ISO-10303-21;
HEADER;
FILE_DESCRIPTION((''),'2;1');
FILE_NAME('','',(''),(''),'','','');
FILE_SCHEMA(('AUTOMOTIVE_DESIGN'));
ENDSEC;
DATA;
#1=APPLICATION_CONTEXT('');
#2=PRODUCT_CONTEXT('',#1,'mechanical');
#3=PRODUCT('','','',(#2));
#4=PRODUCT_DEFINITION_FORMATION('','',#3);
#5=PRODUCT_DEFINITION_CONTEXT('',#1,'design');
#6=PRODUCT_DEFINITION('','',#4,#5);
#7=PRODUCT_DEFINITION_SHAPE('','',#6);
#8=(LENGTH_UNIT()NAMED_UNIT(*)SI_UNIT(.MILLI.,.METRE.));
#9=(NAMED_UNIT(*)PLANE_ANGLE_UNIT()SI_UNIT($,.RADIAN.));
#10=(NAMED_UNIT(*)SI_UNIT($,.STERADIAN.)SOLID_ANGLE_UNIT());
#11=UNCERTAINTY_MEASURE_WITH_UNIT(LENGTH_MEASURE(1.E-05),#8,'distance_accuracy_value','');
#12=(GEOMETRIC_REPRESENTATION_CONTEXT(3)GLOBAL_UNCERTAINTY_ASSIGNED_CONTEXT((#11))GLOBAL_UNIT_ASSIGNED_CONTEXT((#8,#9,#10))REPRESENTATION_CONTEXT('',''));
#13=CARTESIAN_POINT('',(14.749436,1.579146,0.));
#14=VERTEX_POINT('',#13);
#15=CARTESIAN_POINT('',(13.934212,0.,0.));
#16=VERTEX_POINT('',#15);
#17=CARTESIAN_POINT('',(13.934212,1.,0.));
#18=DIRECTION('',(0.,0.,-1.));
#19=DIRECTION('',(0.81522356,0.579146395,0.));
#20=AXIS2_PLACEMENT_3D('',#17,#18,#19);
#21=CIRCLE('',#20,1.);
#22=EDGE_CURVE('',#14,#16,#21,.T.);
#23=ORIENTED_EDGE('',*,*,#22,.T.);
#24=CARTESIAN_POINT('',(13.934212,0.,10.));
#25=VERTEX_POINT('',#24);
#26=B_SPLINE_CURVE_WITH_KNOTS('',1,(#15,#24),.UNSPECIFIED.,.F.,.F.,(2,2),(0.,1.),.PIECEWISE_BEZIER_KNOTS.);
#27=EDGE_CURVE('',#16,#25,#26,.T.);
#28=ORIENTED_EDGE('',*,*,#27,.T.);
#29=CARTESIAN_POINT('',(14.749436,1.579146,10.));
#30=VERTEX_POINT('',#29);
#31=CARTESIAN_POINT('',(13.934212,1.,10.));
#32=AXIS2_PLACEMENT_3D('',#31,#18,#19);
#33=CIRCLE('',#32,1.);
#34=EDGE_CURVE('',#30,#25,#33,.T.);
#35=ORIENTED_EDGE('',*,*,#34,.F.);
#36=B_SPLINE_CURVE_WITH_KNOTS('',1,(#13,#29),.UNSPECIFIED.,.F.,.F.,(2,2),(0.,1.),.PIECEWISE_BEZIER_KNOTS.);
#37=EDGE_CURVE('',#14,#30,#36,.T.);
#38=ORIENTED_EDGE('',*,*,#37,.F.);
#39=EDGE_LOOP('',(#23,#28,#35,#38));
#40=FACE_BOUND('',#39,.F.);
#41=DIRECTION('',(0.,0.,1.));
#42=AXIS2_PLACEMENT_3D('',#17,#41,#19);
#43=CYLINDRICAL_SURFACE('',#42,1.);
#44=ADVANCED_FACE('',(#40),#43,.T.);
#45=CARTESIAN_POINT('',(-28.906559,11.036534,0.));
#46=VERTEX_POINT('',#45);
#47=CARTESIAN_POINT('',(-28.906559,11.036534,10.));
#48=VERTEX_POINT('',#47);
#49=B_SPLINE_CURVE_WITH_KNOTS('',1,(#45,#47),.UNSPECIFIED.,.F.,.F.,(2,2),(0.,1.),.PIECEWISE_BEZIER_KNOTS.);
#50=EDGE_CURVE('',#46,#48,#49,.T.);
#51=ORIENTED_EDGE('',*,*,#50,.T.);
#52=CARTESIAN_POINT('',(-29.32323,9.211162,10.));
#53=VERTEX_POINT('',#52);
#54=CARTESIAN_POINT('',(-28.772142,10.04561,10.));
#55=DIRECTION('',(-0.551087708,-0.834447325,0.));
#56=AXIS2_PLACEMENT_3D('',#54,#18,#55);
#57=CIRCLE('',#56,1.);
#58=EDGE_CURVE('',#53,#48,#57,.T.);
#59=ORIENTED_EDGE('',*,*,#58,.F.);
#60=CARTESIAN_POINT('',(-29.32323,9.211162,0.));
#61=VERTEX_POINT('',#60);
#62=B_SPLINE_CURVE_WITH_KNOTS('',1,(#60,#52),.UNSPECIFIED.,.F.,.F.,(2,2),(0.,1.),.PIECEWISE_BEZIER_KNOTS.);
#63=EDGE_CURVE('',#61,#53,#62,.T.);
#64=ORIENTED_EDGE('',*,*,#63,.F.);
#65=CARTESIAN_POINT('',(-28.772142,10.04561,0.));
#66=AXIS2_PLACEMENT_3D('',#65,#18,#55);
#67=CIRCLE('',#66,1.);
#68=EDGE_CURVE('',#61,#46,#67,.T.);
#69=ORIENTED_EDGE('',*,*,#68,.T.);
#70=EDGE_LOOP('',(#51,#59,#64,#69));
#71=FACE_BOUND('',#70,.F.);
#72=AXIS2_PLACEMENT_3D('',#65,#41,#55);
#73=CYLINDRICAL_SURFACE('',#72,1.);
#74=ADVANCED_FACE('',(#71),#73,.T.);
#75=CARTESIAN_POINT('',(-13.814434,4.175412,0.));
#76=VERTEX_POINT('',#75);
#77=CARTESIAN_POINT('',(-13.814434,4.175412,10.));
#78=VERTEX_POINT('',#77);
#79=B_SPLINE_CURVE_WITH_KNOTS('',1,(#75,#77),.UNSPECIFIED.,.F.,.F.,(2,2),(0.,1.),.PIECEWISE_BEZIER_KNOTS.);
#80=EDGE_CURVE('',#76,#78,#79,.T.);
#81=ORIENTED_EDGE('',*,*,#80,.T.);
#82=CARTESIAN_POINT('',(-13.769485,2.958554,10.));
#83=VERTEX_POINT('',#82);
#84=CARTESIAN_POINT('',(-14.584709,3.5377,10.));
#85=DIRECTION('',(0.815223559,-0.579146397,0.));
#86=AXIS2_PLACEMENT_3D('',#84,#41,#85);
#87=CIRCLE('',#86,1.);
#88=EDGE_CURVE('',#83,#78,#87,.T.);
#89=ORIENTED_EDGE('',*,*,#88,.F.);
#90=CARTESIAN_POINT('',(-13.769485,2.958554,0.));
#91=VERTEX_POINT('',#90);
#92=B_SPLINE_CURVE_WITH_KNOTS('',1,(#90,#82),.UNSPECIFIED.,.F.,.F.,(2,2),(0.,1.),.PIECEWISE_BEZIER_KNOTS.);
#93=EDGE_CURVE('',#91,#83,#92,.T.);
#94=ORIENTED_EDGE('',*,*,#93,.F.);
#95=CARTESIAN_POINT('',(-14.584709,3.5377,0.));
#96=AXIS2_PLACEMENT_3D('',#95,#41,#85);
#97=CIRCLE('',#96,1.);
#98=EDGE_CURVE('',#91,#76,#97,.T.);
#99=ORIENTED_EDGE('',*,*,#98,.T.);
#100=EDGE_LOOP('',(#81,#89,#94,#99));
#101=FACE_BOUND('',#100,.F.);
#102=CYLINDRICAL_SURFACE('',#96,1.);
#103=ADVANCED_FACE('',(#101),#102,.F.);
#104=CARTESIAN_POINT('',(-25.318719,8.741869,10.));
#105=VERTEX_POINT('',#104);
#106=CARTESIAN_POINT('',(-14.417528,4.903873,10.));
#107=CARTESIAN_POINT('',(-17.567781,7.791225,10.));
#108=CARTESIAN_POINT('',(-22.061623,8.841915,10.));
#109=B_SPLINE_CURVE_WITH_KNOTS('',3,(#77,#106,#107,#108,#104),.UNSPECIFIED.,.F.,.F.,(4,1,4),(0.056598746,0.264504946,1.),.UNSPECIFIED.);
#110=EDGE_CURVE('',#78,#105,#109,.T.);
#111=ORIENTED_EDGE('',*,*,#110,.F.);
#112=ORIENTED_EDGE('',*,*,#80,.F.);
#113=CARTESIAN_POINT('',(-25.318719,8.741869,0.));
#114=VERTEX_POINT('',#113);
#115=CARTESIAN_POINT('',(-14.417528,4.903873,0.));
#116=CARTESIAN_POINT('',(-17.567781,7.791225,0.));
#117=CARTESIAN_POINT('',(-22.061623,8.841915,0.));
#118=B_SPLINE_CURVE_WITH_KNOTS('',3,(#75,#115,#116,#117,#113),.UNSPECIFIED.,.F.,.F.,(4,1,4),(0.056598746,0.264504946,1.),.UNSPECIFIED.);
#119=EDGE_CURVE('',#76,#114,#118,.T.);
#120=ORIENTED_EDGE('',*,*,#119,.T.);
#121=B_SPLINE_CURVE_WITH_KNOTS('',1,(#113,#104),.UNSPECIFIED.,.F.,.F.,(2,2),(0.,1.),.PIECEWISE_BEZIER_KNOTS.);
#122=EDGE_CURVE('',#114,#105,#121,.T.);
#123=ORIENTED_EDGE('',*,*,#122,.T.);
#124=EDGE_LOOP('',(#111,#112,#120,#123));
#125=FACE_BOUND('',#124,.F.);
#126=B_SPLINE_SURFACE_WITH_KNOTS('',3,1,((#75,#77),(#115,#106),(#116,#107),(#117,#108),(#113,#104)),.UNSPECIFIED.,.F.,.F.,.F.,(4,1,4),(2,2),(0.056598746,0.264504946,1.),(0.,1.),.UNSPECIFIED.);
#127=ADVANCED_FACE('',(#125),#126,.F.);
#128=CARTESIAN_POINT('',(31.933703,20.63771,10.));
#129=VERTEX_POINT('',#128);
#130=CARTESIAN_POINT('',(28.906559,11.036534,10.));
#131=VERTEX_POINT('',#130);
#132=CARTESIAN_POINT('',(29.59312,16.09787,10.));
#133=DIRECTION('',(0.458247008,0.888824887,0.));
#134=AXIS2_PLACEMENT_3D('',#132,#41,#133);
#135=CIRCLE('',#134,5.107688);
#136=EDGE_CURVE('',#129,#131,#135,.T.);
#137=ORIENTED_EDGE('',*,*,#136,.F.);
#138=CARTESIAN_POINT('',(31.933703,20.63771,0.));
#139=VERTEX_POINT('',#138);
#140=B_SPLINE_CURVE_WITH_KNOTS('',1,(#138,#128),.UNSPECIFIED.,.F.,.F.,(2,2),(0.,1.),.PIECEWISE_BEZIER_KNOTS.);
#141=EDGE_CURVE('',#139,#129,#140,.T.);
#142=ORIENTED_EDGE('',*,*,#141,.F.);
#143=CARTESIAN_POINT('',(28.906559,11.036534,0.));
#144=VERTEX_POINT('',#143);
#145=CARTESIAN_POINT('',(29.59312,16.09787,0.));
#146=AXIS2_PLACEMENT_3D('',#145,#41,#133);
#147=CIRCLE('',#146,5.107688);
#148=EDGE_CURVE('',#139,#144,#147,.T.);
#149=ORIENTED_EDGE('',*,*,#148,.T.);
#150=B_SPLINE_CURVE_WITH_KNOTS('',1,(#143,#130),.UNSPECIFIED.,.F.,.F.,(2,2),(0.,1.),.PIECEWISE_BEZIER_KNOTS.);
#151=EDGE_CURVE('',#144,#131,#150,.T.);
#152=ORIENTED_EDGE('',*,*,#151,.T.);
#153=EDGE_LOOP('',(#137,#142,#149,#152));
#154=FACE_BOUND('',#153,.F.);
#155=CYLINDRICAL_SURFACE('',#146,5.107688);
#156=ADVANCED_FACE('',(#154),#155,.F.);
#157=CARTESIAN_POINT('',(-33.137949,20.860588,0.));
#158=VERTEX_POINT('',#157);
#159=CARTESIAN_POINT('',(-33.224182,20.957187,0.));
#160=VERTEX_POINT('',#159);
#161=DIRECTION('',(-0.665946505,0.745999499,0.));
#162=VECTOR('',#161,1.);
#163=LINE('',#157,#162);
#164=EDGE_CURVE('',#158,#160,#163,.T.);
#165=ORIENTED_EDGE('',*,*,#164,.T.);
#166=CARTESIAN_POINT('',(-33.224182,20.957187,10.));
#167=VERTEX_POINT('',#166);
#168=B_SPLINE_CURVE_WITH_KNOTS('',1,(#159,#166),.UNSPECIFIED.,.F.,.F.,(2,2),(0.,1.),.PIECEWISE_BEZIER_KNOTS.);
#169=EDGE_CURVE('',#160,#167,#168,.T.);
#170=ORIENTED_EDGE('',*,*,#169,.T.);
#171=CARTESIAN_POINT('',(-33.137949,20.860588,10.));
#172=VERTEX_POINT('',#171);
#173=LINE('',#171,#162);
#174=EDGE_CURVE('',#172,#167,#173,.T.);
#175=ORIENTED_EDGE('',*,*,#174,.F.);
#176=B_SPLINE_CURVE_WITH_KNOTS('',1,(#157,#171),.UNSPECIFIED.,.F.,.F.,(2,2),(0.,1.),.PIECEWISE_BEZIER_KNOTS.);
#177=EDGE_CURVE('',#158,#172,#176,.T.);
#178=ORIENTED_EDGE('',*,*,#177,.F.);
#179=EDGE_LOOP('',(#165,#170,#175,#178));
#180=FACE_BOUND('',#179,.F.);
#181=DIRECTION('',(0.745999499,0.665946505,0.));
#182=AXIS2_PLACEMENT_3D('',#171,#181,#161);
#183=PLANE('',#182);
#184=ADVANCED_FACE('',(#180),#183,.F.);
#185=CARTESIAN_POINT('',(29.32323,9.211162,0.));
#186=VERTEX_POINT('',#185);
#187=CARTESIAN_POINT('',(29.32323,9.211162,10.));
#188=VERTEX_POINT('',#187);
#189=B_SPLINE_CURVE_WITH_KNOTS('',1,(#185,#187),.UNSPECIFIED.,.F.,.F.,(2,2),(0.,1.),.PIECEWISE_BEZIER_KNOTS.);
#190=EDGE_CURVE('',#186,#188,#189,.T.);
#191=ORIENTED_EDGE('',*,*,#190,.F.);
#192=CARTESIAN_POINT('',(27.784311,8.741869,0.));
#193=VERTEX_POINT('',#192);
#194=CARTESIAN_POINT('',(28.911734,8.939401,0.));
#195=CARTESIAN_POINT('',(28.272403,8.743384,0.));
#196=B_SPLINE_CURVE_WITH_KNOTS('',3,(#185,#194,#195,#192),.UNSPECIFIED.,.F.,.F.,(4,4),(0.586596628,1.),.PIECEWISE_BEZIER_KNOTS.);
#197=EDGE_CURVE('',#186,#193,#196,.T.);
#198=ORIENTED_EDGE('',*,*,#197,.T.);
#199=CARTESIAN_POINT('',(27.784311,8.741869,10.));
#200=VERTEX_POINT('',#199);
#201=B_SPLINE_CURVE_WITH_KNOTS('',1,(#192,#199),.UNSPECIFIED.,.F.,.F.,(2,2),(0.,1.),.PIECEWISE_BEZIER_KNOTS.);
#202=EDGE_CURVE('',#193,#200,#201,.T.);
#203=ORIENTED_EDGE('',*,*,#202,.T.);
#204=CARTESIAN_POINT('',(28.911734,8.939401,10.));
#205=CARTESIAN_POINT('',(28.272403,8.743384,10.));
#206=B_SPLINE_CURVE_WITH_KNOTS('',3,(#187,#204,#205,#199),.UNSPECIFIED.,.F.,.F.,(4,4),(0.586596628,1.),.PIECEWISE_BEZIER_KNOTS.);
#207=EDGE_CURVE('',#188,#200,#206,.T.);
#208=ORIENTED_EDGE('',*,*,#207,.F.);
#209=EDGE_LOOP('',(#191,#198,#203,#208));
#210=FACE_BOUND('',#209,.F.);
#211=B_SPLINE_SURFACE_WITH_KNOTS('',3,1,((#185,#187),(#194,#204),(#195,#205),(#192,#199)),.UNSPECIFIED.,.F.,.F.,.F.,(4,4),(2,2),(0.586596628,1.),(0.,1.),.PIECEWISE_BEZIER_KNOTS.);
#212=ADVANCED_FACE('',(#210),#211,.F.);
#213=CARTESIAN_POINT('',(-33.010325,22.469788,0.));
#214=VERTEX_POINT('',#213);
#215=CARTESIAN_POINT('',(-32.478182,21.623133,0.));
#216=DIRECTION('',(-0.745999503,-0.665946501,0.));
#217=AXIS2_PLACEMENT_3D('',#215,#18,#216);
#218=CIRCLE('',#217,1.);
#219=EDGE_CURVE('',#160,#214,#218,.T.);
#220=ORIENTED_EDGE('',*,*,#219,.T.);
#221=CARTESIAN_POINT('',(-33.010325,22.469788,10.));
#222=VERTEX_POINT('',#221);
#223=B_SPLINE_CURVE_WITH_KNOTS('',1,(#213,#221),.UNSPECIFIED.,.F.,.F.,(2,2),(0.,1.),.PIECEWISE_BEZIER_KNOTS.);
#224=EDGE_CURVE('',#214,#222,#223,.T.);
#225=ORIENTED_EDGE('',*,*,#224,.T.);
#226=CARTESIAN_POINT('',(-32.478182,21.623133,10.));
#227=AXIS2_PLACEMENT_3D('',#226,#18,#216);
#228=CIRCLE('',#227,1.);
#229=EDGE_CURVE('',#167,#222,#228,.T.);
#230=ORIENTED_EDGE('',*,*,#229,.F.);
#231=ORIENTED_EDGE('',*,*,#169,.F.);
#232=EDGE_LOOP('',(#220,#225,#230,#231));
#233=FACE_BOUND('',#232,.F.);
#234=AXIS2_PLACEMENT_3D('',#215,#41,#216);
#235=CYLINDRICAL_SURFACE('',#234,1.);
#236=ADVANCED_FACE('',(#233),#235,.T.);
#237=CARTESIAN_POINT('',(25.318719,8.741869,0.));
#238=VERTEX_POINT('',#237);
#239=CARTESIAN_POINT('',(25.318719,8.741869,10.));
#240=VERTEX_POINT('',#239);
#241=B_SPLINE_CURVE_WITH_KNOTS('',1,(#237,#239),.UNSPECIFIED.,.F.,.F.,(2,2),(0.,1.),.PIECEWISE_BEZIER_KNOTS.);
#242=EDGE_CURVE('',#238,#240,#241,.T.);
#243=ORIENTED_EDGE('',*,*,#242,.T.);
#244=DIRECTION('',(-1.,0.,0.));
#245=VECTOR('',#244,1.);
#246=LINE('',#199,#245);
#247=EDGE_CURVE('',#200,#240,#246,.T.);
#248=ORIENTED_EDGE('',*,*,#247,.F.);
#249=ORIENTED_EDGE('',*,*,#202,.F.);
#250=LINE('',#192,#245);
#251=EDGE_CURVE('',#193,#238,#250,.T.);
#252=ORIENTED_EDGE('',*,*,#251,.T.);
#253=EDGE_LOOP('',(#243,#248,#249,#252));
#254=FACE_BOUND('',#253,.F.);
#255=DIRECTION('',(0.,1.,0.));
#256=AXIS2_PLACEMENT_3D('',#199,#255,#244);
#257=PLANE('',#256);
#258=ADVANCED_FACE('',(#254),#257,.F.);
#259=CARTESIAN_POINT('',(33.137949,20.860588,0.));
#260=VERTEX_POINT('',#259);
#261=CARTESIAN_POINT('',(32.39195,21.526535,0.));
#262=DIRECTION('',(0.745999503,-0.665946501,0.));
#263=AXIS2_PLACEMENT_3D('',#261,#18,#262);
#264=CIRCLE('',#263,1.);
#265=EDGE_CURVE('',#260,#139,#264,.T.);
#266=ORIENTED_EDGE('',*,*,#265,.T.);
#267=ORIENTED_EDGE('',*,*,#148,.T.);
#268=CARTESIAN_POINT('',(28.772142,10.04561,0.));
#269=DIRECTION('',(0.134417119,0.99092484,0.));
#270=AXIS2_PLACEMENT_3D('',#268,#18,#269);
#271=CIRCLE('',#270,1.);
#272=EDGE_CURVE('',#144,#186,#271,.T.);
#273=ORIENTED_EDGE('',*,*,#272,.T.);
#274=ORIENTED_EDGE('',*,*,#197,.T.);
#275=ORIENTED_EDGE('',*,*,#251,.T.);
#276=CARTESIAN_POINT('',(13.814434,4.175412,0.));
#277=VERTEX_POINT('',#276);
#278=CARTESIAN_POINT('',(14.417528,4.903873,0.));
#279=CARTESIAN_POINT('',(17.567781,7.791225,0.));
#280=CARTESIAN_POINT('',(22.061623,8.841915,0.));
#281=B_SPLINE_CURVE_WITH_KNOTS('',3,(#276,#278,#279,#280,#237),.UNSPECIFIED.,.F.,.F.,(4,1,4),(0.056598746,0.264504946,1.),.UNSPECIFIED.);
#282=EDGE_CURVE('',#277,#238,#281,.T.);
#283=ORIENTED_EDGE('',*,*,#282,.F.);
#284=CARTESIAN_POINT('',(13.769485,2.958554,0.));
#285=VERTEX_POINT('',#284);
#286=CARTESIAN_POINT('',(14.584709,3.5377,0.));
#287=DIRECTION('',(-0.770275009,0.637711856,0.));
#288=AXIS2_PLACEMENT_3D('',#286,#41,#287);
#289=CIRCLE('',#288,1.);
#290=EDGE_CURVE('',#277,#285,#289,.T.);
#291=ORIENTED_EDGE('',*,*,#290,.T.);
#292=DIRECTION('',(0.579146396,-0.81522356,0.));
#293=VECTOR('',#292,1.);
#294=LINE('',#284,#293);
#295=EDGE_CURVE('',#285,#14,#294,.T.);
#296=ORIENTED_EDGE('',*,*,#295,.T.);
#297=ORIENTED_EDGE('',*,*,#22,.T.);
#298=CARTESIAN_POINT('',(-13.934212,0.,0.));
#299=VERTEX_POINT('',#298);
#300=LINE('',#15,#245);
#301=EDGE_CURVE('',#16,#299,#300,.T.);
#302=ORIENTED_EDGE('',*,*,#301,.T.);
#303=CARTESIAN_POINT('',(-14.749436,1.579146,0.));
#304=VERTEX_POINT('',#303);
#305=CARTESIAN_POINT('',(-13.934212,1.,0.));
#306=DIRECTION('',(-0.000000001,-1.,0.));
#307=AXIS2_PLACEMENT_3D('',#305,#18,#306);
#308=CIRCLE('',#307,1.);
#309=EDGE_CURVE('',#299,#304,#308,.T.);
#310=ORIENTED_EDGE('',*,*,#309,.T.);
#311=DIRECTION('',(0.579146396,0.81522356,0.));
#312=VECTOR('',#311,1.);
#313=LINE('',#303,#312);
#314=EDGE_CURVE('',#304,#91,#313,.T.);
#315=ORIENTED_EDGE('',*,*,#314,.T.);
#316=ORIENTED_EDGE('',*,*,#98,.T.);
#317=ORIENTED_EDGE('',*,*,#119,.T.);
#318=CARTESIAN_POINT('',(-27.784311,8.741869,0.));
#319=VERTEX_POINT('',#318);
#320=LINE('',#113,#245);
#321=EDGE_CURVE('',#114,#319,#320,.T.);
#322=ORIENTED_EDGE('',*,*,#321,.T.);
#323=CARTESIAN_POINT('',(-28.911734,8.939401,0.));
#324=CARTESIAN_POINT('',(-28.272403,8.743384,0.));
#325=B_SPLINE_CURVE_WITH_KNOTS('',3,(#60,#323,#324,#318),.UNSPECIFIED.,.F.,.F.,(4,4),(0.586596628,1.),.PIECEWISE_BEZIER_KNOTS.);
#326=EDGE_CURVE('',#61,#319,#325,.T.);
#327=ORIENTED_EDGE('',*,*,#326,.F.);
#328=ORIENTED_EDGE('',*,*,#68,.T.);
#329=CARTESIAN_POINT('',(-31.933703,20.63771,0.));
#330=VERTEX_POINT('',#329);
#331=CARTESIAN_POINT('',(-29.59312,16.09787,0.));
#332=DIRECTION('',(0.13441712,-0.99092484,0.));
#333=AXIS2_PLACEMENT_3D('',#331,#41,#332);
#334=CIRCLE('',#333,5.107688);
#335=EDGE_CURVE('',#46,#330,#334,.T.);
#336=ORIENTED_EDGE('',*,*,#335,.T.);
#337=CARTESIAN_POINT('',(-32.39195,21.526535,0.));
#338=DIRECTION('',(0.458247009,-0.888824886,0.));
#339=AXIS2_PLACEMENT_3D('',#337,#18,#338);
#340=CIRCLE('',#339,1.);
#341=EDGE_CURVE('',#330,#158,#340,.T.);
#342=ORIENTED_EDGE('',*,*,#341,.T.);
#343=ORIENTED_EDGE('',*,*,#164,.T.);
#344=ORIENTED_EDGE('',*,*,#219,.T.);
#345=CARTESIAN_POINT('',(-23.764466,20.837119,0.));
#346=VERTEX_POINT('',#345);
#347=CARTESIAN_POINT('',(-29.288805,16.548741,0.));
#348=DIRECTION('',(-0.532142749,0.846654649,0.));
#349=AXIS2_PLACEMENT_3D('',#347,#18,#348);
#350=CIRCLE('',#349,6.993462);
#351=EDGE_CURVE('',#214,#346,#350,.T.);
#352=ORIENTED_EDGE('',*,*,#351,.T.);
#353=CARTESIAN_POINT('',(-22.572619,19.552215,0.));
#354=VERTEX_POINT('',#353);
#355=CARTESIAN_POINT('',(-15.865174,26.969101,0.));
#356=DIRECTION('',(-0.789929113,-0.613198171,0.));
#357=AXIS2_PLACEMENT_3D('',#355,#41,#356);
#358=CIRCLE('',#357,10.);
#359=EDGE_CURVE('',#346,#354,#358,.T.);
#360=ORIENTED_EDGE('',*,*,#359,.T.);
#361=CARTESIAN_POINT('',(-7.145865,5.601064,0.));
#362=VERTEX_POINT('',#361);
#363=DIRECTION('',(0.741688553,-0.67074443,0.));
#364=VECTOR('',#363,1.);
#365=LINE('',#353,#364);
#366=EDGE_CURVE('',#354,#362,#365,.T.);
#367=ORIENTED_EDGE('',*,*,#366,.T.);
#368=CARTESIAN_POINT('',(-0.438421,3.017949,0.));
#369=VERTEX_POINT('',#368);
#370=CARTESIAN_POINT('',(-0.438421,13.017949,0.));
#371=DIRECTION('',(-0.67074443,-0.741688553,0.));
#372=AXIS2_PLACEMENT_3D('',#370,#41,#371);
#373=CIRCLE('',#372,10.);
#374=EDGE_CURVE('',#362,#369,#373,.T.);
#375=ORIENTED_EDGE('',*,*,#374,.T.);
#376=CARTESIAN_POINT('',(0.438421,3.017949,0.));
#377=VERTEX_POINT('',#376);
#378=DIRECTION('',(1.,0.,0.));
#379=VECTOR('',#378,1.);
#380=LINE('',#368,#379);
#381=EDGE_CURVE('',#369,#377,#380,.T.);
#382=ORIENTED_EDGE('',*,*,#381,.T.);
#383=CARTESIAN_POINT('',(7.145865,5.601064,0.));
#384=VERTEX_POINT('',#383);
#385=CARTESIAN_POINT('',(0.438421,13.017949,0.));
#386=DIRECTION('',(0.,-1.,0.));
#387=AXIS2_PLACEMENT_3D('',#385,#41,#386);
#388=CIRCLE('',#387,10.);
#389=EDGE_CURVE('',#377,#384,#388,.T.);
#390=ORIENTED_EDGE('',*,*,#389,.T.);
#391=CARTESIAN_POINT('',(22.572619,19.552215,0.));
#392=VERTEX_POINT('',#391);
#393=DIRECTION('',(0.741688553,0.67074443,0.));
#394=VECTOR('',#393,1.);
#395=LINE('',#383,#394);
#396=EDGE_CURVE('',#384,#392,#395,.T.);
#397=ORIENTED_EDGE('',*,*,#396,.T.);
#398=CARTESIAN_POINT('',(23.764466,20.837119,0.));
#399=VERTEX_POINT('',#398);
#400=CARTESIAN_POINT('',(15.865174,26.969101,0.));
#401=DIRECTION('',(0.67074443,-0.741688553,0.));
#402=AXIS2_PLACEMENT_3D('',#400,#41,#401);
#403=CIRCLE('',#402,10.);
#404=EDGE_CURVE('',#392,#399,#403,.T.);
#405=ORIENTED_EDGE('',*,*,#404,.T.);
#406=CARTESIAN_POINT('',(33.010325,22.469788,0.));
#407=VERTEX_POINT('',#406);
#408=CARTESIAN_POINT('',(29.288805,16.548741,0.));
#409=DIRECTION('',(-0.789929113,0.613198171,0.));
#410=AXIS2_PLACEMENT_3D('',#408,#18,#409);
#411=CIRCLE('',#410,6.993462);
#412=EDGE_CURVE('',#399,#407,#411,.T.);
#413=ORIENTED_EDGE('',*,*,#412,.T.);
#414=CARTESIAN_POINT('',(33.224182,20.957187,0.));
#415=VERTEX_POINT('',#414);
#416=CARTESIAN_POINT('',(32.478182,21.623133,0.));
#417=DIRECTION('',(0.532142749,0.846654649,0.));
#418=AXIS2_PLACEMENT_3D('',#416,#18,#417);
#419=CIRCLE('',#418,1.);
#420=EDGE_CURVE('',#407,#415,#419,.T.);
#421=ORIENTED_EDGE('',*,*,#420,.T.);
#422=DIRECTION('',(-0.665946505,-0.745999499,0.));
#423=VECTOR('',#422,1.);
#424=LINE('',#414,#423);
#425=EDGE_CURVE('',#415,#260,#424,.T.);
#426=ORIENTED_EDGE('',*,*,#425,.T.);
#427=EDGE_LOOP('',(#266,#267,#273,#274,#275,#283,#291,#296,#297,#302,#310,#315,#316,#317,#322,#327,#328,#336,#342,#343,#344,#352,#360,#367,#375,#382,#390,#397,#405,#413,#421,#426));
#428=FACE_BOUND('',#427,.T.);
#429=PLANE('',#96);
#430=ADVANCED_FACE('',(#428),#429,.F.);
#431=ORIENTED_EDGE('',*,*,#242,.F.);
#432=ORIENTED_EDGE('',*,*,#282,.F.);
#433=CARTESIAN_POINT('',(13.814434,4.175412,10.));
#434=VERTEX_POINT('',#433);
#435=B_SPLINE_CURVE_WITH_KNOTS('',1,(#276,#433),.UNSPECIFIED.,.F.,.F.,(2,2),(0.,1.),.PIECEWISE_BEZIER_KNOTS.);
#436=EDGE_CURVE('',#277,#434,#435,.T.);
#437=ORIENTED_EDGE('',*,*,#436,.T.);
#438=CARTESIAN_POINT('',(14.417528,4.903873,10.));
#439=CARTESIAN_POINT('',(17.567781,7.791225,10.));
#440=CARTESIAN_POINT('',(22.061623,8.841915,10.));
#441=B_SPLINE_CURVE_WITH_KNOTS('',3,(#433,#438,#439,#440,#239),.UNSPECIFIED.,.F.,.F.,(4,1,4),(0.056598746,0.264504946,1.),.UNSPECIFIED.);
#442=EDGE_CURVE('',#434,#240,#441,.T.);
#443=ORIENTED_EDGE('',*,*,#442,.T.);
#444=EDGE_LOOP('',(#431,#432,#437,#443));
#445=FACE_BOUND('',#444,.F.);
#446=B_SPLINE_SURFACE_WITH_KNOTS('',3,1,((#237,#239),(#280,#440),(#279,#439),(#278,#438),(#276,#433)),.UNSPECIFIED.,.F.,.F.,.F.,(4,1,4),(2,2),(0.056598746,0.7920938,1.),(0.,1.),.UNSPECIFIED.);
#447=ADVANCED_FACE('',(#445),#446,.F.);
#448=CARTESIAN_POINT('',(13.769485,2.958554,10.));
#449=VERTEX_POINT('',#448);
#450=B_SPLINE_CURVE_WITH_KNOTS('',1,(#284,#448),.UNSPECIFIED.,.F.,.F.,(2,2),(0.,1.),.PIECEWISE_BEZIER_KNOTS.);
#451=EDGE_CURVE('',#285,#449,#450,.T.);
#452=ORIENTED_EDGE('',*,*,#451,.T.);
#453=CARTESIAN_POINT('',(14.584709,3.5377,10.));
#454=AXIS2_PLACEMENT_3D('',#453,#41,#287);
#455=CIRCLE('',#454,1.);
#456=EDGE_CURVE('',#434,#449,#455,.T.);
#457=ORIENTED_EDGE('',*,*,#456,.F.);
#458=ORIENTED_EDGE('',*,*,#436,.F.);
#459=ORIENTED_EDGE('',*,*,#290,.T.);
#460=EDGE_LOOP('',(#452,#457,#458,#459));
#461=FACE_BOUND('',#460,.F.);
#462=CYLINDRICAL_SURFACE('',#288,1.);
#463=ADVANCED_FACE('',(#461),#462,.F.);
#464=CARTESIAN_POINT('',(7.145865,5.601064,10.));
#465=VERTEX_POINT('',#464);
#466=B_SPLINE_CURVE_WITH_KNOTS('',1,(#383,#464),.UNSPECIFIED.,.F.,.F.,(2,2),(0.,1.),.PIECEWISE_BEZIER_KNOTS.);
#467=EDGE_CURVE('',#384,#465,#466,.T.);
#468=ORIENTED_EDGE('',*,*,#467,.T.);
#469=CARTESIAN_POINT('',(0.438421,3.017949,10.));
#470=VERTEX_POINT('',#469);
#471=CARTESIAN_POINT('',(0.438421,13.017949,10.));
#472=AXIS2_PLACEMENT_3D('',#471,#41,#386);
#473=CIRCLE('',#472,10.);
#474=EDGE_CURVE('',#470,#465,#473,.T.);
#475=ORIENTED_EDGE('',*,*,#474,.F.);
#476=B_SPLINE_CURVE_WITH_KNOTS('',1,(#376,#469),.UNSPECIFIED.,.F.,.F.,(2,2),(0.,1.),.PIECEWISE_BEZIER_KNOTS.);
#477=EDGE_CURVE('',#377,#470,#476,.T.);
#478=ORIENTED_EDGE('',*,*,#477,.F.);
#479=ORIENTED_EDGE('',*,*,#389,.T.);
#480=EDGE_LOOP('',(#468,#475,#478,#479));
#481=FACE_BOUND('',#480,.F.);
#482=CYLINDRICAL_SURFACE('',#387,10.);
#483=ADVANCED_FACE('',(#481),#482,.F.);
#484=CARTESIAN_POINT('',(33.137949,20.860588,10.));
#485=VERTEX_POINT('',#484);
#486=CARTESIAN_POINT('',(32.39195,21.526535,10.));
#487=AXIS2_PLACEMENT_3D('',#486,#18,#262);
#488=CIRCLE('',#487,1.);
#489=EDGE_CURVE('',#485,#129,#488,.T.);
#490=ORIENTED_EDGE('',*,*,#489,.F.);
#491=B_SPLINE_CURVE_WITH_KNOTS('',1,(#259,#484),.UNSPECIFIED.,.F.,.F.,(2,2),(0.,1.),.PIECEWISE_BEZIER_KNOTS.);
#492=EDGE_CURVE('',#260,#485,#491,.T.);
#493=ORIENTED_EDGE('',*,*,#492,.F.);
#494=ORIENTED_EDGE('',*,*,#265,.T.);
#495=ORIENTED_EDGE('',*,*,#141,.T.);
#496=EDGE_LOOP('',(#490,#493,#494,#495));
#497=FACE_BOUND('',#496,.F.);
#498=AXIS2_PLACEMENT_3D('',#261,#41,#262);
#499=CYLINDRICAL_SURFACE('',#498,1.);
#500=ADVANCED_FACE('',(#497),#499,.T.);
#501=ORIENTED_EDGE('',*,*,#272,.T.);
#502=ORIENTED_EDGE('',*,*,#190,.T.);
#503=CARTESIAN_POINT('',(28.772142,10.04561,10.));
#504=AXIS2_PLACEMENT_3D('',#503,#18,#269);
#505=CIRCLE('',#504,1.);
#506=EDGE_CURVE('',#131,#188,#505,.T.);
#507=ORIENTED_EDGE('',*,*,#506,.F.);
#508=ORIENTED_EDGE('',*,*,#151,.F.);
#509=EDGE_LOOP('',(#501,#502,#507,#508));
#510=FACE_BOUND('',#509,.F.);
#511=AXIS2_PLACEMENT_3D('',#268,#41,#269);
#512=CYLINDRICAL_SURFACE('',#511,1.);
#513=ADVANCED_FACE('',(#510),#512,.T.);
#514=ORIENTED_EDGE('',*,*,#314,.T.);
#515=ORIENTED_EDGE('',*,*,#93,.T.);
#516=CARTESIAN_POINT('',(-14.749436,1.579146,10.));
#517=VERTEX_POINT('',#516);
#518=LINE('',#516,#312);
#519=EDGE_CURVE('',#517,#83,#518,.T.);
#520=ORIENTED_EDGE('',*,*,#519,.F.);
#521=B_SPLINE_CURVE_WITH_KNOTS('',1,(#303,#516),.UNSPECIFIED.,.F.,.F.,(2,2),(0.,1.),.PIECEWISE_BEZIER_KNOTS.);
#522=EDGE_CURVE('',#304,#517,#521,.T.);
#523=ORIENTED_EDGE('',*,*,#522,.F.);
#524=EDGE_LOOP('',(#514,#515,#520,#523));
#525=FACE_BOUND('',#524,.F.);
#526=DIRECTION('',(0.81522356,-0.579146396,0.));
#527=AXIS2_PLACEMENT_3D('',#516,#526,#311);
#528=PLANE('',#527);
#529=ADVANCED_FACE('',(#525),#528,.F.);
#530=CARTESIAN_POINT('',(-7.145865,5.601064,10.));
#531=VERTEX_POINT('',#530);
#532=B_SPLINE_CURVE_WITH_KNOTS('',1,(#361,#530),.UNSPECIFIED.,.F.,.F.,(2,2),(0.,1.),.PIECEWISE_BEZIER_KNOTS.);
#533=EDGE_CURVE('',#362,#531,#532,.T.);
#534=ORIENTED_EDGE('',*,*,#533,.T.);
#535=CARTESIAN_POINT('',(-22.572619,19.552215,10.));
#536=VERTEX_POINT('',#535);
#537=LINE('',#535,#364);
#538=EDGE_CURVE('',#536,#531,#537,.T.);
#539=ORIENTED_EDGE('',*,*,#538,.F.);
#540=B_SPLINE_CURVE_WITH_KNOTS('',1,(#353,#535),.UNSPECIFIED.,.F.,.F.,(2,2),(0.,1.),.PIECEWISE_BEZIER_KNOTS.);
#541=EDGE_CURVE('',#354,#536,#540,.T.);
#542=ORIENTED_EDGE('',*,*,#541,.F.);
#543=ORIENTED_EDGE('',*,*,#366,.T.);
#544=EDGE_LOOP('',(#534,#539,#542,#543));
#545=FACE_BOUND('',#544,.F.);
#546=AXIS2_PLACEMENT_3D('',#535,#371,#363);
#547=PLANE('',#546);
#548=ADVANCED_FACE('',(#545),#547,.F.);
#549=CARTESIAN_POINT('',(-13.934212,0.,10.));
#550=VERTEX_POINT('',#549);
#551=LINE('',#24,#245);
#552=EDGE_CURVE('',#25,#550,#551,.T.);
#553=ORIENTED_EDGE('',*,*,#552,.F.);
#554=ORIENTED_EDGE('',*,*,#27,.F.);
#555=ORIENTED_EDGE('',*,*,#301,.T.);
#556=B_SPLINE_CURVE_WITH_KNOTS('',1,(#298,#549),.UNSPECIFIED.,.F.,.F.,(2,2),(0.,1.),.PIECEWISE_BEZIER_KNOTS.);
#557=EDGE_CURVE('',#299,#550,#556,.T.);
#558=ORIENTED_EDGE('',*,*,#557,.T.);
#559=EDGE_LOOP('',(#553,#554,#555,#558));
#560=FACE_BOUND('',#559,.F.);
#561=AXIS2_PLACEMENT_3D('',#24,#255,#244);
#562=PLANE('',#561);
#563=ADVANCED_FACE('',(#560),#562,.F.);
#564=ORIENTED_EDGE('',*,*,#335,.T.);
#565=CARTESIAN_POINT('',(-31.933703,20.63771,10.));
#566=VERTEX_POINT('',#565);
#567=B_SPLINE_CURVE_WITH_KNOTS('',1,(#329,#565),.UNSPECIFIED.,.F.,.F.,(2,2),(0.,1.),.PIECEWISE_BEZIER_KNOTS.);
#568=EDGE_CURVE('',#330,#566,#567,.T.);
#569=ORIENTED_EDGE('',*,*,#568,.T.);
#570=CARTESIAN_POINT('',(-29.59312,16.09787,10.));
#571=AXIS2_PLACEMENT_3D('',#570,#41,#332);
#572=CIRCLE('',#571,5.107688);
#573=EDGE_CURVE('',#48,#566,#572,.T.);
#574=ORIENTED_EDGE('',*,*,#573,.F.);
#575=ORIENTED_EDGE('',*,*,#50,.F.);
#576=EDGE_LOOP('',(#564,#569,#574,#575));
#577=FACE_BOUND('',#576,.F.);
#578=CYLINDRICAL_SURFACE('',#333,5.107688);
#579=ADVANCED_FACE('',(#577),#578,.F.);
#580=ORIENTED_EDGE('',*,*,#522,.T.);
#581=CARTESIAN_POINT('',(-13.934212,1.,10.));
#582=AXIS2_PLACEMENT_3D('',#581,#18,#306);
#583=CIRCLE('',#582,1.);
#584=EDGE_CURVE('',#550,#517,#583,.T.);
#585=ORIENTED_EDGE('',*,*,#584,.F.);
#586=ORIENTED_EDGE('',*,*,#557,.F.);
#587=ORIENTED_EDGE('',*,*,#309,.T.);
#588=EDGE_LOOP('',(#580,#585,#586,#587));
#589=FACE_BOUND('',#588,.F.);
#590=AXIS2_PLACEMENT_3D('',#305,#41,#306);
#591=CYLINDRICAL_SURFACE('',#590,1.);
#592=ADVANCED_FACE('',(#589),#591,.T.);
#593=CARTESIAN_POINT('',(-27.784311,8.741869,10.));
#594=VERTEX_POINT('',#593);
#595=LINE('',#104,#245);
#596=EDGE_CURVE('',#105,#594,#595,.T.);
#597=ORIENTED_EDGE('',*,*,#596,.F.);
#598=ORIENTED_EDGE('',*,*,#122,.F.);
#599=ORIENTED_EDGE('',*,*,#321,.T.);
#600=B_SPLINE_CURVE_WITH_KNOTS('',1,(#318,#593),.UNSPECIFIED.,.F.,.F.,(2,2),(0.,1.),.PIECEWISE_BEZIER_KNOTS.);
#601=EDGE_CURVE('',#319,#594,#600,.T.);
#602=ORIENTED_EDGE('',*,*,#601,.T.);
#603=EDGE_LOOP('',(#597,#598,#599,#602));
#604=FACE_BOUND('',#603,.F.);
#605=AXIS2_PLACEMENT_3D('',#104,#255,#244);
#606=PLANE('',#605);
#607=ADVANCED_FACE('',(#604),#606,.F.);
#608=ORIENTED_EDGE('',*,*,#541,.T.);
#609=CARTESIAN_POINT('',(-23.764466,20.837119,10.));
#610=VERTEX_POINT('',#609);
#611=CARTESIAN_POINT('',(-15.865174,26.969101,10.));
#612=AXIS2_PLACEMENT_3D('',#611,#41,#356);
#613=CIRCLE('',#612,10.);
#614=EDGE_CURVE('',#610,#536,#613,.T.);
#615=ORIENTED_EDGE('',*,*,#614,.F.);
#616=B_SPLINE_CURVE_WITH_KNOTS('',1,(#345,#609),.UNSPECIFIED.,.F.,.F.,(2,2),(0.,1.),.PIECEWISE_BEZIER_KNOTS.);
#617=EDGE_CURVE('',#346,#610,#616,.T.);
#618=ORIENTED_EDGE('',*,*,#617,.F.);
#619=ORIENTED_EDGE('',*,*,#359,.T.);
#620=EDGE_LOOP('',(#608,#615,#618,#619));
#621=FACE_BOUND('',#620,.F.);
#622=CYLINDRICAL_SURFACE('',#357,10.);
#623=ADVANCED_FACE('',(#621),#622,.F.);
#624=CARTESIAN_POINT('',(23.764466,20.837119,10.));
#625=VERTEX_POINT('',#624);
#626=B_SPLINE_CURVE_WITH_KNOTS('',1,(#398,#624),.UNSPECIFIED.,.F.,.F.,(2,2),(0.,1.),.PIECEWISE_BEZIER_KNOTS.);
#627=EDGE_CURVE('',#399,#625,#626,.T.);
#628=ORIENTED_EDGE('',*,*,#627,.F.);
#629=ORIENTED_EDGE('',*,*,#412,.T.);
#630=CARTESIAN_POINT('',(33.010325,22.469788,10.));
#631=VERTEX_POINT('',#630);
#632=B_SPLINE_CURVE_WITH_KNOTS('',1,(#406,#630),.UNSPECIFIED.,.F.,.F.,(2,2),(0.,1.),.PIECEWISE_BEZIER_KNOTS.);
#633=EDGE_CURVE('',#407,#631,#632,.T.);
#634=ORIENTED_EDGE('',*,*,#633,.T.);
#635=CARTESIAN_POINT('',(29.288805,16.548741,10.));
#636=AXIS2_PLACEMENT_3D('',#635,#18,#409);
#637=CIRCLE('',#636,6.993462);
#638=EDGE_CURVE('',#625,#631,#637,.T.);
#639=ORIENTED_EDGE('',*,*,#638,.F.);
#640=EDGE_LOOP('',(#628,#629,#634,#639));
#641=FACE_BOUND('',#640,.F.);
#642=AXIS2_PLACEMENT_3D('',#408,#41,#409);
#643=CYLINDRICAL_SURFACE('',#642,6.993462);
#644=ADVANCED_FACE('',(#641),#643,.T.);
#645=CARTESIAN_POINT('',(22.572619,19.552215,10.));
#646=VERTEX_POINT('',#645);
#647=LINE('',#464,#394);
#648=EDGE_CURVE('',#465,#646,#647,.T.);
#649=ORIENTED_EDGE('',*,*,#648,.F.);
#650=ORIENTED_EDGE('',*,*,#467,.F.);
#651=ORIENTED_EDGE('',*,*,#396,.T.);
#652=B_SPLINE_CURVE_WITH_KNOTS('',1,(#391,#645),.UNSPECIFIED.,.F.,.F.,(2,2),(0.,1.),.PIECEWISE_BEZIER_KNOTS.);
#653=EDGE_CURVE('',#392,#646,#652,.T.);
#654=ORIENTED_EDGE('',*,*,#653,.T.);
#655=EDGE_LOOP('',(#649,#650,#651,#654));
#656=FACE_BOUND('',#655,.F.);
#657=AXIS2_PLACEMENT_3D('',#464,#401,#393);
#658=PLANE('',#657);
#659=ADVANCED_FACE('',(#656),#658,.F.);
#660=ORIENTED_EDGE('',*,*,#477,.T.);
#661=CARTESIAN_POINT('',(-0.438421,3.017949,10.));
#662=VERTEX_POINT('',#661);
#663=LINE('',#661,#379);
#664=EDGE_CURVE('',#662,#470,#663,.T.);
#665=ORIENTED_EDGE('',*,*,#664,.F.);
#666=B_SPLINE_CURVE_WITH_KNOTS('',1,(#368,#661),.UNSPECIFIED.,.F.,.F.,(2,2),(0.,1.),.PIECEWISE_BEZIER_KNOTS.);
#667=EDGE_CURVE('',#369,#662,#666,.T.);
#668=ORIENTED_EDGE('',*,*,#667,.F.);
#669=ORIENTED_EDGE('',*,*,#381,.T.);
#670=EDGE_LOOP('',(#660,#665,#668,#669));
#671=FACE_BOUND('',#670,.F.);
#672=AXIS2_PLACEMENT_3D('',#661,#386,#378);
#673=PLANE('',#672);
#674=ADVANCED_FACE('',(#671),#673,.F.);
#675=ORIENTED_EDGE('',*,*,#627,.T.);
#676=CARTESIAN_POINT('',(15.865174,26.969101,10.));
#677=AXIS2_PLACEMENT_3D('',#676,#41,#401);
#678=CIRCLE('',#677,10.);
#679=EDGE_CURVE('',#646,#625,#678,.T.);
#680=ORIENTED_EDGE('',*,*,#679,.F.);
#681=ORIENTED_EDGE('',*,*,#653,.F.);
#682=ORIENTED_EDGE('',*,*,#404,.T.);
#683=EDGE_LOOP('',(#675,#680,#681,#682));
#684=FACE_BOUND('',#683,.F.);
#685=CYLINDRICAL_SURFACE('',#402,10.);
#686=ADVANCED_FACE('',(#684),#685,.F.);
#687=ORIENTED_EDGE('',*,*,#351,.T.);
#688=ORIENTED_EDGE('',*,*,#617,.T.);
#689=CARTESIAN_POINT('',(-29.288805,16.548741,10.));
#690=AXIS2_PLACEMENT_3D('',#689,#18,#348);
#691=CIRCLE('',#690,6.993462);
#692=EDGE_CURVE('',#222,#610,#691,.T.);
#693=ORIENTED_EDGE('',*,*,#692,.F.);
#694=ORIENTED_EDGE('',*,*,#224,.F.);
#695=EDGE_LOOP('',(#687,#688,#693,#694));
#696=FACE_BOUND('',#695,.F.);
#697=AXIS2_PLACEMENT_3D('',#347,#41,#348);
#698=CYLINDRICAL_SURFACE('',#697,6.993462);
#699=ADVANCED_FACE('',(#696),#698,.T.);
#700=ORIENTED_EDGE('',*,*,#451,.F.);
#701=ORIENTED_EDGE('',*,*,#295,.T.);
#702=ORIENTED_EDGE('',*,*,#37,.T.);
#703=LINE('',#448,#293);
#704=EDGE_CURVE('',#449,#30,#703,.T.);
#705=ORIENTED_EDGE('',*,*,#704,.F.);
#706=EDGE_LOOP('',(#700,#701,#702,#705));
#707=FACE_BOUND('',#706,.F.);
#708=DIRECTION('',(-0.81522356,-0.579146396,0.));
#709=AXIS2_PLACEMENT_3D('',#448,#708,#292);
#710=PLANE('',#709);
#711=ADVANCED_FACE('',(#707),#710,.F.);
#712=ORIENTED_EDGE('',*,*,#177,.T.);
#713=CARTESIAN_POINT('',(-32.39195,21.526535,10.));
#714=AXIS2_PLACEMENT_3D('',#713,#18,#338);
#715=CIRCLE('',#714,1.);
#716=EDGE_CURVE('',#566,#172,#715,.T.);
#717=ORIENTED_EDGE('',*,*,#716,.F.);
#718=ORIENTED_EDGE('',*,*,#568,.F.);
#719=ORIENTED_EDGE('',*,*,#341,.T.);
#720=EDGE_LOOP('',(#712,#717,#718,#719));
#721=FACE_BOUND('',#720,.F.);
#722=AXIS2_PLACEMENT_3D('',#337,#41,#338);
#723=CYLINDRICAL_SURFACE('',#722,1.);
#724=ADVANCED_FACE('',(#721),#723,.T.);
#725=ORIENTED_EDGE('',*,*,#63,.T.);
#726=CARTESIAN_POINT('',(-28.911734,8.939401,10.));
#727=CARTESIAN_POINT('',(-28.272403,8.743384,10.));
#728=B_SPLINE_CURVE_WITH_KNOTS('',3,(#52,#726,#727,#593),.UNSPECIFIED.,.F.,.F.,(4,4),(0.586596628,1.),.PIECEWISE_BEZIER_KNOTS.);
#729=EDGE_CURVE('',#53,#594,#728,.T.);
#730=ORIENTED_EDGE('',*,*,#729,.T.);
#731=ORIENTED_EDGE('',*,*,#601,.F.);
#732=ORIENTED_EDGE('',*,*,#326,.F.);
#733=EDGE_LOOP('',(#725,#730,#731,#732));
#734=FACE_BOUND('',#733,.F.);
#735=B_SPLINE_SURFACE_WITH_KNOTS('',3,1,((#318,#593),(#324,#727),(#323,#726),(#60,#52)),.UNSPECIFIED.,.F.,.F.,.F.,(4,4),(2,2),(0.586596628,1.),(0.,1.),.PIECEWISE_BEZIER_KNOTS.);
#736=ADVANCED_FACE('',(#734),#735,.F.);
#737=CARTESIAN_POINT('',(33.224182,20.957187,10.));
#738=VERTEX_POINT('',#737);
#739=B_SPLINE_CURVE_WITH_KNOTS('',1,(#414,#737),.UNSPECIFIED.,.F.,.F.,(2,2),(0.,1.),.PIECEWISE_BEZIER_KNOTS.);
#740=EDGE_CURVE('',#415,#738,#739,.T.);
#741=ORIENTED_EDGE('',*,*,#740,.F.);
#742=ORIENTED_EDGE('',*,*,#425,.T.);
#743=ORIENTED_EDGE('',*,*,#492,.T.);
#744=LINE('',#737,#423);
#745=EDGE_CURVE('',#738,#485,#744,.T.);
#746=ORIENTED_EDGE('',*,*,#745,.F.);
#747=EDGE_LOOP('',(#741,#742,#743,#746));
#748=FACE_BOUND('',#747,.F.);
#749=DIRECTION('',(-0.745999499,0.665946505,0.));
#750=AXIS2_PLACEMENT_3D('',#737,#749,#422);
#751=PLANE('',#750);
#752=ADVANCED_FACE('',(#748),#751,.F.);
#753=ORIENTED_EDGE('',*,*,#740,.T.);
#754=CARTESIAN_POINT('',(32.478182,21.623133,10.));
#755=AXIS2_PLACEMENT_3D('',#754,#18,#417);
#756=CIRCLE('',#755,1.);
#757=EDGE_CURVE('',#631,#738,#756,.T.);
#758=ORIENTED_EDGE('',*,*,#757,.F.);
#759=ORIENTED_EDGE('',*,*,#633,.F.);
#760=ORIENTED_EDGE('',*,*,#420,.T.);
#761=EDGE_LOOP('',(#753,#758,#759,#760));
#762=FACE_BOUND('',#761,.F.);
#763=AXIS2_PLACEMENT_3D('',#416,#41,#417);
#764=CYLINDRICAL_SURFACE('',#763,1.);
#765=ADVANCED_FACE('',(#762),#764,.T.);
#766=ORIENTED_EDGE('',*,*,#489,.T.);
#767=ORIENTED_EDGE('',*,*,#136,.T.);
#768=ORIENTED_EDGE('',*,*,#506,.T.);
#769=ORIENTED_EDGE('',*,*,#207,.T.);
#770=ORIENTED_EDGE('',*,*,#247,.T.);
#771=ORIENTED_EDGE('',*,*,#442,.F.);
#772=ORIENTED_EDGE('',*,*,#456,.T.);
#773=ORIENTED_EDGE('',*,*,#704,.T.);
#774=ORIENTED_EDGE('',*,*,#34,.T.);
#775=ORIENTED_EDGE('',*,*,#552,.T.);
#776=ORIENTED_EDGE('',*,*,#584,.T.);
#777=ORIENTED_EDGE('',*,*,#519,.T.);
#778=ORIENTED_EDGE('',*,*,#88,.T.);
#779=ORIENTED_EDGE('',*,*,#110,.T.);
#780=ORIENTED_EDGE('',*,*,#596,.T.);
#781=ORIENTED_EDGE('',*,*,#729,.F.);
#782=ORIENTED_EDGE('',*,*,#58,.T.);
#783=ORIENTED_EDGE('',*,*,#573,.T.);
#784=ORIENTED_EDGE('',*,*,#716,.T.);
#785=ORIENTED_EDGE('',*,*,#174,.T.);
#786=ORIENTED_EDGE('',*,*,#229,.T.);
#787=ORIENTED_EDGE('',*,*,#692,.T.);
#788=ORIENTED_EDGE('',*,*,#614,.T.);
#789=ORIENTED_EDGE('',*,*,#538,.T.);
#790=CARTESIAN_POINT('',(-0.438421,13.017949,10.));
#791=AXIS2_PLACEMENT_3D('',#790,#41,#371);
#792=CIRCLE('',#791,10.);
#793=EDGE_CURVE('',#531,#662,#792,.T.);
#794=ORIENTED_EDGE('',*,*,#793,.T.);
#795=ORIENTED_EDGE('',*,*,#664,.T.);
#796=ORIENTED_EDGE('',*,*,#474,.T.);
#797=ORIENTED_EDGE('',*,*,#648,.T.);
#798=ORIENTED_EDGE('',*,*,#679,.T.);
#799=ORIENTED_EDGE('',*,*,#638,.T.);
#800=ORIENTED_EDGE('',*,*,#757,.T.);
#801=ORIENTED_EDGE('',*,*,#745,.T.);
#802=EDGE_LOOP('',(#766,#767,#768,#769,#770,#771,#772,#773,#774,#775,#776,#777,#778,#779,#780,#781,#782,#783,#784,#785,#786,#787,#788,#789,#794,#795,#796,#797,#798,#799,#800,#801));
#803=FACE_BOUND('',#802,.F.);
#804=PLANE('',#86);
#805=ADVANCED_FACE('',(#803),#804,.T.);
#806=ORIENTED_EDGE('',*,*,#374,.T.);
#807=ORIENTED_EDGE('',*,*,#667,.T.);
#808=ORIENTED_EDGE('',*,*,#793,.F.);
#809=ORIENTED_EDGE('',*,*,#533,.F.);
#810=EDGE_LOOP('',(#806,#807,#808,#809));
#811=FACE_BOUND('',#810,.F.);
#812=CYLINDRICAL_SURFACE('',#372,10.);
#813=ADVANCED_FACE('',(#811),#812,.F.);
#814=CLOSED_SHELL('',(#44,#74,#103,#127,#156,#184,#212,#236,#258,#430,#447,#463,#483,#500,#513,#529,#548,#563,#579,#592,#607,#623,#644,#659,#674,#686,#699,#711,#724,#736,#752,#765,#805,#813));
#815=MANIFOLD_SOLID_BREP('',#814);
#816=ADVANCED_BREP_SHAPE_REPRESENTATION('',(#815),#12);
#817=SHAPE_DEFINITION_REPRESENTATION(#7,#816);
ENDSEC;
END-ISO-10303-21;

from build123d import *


with BuildPart() as part:
    # Sketch1 → Loft2 section 0
    with BuildSketch(Plane.XY):
        with BuildLine():
            Line((-14.749435925, 1.579146396), (-13.769485327, 2.95855378))
            ThreePointArc((-13.769485327, 2.95855378), (-13.585390404, 3.574613199), (-13.814433877, 4.175412031))
            add(Edge.make_bspline(
                [(-13.814433877, 4.175412031), (-14.417527952, 4.903873153), (-17.567781248, 7.791225194), (-22.06162275, 8.841915434), (-25.318719368, 8.741869045)],
                knots=[0.056598746, 0.056598746, 0.056598746, 0.056598746, 0.264504946, 1, 1, 1, 1], degree=3))
            Line((-25.318719368, 8.741869045), (-27.784310983, 8.741869045))
            add(Edge.make_bspline(
                [(-29.323229714, 9.211162218), (-28.911734347, 8.939401458), (-28.272403474, 8.743384076), (-27.784310983, 8.741869045)],
                knots=[0.586596628, 0.586596628, 0.586596628, 0.586596628, 1, 1, 1, 1], degree=3))
            ThreePointArc((-29.323229714, 9.211162218), (-29.747065132, 10.268151444), (-28.906559125, 11.036534382))
            ThreePointArc((-28.906559125, 11.036534382), (-24.721817141, 17.633736944), (-31.933702711, 20.637709922))
            ThreePointArc((-31.933702711, 20.637709922), (-32.573936169, 20.54323377), (-33.137949221, 20.860588307))
            Line((-33.137949221, 20.860588307), (-33.224181658, 20.957186689))
            ThreePointArc((-33.224181658, 20.957186689), (-33.468334903, 21.763124392), (-33.010324904, 22.46978784))
            ThreePointArc((-33.010324904, 22.46978784), (-28.072687528, 23.43565364), (-23.764465571, 20.837118829))
            ThreePointArc((-23.764465571, 20.837118829), (-23.196744837, 20.168506773), (-22.572618747, 19.552215012))
            Line((-22.572618747, 19.552215012), (-7.145865193, 5.601063972))
            ThreePointArc((-7.145865193, 5.601063972), (-4.032245088, 3.686045747), (-0.43842089, 3.017949499))
            Line((-0.43842089, 3.017949499), (0.43842089, 3.017949499))
            ThreePointArc((0.43842089, 3.017949499), (4.032245088, 3.686045747), (7.145865193, 5.601063972))
            Line((7.145865193, 5.601063972), (22.572618747, 19.552215012))
            ThreePointArc((22.572618747, 19.552215012), (23.196744837, 20.168506773), (23.764465571, 20.837118829))
            ThreePointArc((23.764465571, 20.837118829), (28.072687528, 23.43565364), (33.010324904, 22.46978784))
            ThreePointArc((33.010324904, 22.46978784), (33.468334903, 21.763124392), (33.224181658, 20.957186689))
            Line((33.224181658, 20.957186689), (33.137949221, 20.860588307))
            ThreePointArc((33.137949221, 20.860588307), (32.573936169, 20.54323377), (31.933702711, 20.637709922))
            ThreePointArc((31.933702711, 20.637709922), (24.721817141, 17.633736944), (28.906559125, 11.036534382))
            ThreePointArc((28.906559125, 11.036534382), (29.747065132, 10.268151444), (29.323229714, 9.211162218))
            add(Edge.make_bspline(
                [(29.323229714, 9.211162218), (28.911734347, 8.939401458), (28.272403474, 8.743384076), (27.784310983, 8.741869045)],
                knots=[0.586596628, 0.586596628, 0.586596628, 0.586596628, 1, 1, 1, 1], degree=3))
            Line((27.784310983, 8.741869045), (25.318719368, 8.741869045))
            add(Edge.make_bspline(
                [(13.814433877, 4.175412031), (14.417527952, 4.903873153), (17.567781248, 7.791225194), (22.06162275, 8.841915434), (25.318719368, 8.741869045)],
                knots=[0.056598746, 0.056598746, 0.056598746, 0.056598746, 0.264504946, 1, 1, 1, 1], degree=3))
            ThreePointArc((13.814433877, 4.175412031), (13.585390404, 3.574613199), (13.769485327, 2.95855378))
            Line((13.769485327, 2.95855378), (14.749435925, 1.579146396))
            ThreePointArc((14.749435925, 1.579146396), (14.822791679, 0.541276988), (13.934212365, 0))
            Line((13.934212365, 0), (-13.934212365, 0))
            ThreePointArc((-13.934212365, 0), (-14.822791679, 0.541276988), (-14.749435925, 1.579146396))
        make_face()
    # Sketch7 → Loft2 section 1
    with BuildSketch(Plane.XY.offset(10)):
        with BuildLine():
            Line((-14.749435925, 1.579146396), (-13.769485327, 2.95855378))
            ThreePointArc((-13.769485327, 2.95855378), (-13.585390404, 3.574613199), (-13.814433877, 4.175412031))
            add(Edge.make_bspline(
                [(-13.814433877, 4.175412031), (-14.417527952, 4.903873153), (-17.567781248, 7.791225194), (-22.06162275, 8.841915434), (-25.318719368, 8.741869045)],
                knots=[0.056598746, 0.056598746, 0.056598746, 0.056598746, 0.264504946, 1, 1, 1, 1], degree=3))
            Line((-25.318719368, 8.741869045), (-27.784310983, 8.741869045))
            add(Edge.make_bspline(
                [(-29.323229714, 9.211162218), (-28.911734347, 8.939401458), (-28.272403474, 8.743384076), (-27.784310983, 8.741869045)],
                knots=[0.586596628, 0.586596628, 0.586596628, 0.586596628, 1, 1, 1, 1], degree=3))
            ThreePointArc((-29.323229714, 9.211162218), (-29.747065132, 10.268151444), (-28.906559125, 11.036534382))
            ThreePointArc((-28.906559125, 11.036534382), (-24.721817141, 17.633736944), (-31.933702711, 20.637709922))
            ThreePointArc((-31.933702711, 20.637709922), (-32.573936169, 20.54323377), (-33.137949221, 20.860588307))
            Line((-33.137949221, 20.860588307), (-33.224181658, 20.957186689))
            ThreePointArc((-33.224181658, 20.957186689), (-33.468334903, 21.763124392), (-33.010324904, 22.46978784))
            ThreePointArc((-33.010324904, 22.46978784), (-28.072687528, 23.43565364), (-23.764465571, 20.837118829))
            ThreePointArc((-23.764465571, 20.837118829), (-23.196744837, 20.168506773), (-22.572618747, 19.552215012))
            Line((-22.572618747, 19.552215012), (-7.145865193, 5.601063972))
            ThreePointArc((-7.145865193, 5.601063972), (-4.032245088, 3.686045747), (-0.43842089, 3.017949499))
            Line((-0.43842089, 3.017949499), (0.43842089, 3.017949499))
            ThreePointArc((0.43842089, 3.017949499), (4.032245088, 3.686045747), (7.145865193, 5.601063972))
            Line((7.145865193, 5.601063972), (22.572618747, 19.552215012))
            ThreePointArc((22.572618747, 19.552215012), (23.196744837, 20.168506773), (23.764465571, 20.837118829))
            ThreePointArc((23.764465571, 20.837118829), (28.072687528, 23.43565364), (33.010324904, 22.46978784))
            ThreePointArc((33.010324904, 22.46978784), (33.468334903, 21.763124392), (33.224181658, 20.957186689))
            Line((33.224181658, 20.957186689), (33.137949221, 20.860588307))
            ThreePointArc((33.137949221, 20.860588307), (32.573936169, 20.54323377), (31.933702711, 20.637709922))
            ThreePointArc((31.933702711, 20.637709922), (24.721817141, 17.633736944), (28.906559125, 11.036534382))
            ThreePointArc((28.906559125, 11.036534382), (29.747065132, 10.268151444), (29.323229714, 9.211162218))
            add(Edge.make_bspline(
                [(29.323229714, 9.211162218), (28.911734347, 8.939401458), (28.272403474, 8.743384076), (27.784310983, 8.741869045)],
                knots=[0.586596628, 0.586596628, 0.586596628, 0.586596628, 1, 1, 1, 1], degree=3))
            Line((27.784310983, 8.741869045), (25.318719368, 8.741869045))
            add(Edge.make_bspline(
                [(13.814433877, 4.175412031), (14.417527952, 4.903873153), (17.567781248, 7.791225194), (22.06162275, 8.841915434), (25.318719368, 8.741869045)],
                knots=[0.056598746, 0.056598746, 0.056598746, 0.056598746, 0.264504946, 1, 1, 1, 1], degree=3))
            ThreePointArc((13.814433877, 4.175412031), (13.585390404, 3.574613199), (13.769485327, 2.95855378))
            Line((13.769485327, 2.95855378), (14.749435925, 1.579146396))
            ThreePointArc((14.749435925, 1.579146396), (14.822791679, 0.541276988), (13.934212365, 0))
            Line((13.934212365, 0), (-13.934212365, 0))
            ThreePointArc((-13.934212365, 0), (-14.822791679, 0.541276988), (-14.749435925, 1.579146396))
        make_face()
    loft()


solid = part.part
